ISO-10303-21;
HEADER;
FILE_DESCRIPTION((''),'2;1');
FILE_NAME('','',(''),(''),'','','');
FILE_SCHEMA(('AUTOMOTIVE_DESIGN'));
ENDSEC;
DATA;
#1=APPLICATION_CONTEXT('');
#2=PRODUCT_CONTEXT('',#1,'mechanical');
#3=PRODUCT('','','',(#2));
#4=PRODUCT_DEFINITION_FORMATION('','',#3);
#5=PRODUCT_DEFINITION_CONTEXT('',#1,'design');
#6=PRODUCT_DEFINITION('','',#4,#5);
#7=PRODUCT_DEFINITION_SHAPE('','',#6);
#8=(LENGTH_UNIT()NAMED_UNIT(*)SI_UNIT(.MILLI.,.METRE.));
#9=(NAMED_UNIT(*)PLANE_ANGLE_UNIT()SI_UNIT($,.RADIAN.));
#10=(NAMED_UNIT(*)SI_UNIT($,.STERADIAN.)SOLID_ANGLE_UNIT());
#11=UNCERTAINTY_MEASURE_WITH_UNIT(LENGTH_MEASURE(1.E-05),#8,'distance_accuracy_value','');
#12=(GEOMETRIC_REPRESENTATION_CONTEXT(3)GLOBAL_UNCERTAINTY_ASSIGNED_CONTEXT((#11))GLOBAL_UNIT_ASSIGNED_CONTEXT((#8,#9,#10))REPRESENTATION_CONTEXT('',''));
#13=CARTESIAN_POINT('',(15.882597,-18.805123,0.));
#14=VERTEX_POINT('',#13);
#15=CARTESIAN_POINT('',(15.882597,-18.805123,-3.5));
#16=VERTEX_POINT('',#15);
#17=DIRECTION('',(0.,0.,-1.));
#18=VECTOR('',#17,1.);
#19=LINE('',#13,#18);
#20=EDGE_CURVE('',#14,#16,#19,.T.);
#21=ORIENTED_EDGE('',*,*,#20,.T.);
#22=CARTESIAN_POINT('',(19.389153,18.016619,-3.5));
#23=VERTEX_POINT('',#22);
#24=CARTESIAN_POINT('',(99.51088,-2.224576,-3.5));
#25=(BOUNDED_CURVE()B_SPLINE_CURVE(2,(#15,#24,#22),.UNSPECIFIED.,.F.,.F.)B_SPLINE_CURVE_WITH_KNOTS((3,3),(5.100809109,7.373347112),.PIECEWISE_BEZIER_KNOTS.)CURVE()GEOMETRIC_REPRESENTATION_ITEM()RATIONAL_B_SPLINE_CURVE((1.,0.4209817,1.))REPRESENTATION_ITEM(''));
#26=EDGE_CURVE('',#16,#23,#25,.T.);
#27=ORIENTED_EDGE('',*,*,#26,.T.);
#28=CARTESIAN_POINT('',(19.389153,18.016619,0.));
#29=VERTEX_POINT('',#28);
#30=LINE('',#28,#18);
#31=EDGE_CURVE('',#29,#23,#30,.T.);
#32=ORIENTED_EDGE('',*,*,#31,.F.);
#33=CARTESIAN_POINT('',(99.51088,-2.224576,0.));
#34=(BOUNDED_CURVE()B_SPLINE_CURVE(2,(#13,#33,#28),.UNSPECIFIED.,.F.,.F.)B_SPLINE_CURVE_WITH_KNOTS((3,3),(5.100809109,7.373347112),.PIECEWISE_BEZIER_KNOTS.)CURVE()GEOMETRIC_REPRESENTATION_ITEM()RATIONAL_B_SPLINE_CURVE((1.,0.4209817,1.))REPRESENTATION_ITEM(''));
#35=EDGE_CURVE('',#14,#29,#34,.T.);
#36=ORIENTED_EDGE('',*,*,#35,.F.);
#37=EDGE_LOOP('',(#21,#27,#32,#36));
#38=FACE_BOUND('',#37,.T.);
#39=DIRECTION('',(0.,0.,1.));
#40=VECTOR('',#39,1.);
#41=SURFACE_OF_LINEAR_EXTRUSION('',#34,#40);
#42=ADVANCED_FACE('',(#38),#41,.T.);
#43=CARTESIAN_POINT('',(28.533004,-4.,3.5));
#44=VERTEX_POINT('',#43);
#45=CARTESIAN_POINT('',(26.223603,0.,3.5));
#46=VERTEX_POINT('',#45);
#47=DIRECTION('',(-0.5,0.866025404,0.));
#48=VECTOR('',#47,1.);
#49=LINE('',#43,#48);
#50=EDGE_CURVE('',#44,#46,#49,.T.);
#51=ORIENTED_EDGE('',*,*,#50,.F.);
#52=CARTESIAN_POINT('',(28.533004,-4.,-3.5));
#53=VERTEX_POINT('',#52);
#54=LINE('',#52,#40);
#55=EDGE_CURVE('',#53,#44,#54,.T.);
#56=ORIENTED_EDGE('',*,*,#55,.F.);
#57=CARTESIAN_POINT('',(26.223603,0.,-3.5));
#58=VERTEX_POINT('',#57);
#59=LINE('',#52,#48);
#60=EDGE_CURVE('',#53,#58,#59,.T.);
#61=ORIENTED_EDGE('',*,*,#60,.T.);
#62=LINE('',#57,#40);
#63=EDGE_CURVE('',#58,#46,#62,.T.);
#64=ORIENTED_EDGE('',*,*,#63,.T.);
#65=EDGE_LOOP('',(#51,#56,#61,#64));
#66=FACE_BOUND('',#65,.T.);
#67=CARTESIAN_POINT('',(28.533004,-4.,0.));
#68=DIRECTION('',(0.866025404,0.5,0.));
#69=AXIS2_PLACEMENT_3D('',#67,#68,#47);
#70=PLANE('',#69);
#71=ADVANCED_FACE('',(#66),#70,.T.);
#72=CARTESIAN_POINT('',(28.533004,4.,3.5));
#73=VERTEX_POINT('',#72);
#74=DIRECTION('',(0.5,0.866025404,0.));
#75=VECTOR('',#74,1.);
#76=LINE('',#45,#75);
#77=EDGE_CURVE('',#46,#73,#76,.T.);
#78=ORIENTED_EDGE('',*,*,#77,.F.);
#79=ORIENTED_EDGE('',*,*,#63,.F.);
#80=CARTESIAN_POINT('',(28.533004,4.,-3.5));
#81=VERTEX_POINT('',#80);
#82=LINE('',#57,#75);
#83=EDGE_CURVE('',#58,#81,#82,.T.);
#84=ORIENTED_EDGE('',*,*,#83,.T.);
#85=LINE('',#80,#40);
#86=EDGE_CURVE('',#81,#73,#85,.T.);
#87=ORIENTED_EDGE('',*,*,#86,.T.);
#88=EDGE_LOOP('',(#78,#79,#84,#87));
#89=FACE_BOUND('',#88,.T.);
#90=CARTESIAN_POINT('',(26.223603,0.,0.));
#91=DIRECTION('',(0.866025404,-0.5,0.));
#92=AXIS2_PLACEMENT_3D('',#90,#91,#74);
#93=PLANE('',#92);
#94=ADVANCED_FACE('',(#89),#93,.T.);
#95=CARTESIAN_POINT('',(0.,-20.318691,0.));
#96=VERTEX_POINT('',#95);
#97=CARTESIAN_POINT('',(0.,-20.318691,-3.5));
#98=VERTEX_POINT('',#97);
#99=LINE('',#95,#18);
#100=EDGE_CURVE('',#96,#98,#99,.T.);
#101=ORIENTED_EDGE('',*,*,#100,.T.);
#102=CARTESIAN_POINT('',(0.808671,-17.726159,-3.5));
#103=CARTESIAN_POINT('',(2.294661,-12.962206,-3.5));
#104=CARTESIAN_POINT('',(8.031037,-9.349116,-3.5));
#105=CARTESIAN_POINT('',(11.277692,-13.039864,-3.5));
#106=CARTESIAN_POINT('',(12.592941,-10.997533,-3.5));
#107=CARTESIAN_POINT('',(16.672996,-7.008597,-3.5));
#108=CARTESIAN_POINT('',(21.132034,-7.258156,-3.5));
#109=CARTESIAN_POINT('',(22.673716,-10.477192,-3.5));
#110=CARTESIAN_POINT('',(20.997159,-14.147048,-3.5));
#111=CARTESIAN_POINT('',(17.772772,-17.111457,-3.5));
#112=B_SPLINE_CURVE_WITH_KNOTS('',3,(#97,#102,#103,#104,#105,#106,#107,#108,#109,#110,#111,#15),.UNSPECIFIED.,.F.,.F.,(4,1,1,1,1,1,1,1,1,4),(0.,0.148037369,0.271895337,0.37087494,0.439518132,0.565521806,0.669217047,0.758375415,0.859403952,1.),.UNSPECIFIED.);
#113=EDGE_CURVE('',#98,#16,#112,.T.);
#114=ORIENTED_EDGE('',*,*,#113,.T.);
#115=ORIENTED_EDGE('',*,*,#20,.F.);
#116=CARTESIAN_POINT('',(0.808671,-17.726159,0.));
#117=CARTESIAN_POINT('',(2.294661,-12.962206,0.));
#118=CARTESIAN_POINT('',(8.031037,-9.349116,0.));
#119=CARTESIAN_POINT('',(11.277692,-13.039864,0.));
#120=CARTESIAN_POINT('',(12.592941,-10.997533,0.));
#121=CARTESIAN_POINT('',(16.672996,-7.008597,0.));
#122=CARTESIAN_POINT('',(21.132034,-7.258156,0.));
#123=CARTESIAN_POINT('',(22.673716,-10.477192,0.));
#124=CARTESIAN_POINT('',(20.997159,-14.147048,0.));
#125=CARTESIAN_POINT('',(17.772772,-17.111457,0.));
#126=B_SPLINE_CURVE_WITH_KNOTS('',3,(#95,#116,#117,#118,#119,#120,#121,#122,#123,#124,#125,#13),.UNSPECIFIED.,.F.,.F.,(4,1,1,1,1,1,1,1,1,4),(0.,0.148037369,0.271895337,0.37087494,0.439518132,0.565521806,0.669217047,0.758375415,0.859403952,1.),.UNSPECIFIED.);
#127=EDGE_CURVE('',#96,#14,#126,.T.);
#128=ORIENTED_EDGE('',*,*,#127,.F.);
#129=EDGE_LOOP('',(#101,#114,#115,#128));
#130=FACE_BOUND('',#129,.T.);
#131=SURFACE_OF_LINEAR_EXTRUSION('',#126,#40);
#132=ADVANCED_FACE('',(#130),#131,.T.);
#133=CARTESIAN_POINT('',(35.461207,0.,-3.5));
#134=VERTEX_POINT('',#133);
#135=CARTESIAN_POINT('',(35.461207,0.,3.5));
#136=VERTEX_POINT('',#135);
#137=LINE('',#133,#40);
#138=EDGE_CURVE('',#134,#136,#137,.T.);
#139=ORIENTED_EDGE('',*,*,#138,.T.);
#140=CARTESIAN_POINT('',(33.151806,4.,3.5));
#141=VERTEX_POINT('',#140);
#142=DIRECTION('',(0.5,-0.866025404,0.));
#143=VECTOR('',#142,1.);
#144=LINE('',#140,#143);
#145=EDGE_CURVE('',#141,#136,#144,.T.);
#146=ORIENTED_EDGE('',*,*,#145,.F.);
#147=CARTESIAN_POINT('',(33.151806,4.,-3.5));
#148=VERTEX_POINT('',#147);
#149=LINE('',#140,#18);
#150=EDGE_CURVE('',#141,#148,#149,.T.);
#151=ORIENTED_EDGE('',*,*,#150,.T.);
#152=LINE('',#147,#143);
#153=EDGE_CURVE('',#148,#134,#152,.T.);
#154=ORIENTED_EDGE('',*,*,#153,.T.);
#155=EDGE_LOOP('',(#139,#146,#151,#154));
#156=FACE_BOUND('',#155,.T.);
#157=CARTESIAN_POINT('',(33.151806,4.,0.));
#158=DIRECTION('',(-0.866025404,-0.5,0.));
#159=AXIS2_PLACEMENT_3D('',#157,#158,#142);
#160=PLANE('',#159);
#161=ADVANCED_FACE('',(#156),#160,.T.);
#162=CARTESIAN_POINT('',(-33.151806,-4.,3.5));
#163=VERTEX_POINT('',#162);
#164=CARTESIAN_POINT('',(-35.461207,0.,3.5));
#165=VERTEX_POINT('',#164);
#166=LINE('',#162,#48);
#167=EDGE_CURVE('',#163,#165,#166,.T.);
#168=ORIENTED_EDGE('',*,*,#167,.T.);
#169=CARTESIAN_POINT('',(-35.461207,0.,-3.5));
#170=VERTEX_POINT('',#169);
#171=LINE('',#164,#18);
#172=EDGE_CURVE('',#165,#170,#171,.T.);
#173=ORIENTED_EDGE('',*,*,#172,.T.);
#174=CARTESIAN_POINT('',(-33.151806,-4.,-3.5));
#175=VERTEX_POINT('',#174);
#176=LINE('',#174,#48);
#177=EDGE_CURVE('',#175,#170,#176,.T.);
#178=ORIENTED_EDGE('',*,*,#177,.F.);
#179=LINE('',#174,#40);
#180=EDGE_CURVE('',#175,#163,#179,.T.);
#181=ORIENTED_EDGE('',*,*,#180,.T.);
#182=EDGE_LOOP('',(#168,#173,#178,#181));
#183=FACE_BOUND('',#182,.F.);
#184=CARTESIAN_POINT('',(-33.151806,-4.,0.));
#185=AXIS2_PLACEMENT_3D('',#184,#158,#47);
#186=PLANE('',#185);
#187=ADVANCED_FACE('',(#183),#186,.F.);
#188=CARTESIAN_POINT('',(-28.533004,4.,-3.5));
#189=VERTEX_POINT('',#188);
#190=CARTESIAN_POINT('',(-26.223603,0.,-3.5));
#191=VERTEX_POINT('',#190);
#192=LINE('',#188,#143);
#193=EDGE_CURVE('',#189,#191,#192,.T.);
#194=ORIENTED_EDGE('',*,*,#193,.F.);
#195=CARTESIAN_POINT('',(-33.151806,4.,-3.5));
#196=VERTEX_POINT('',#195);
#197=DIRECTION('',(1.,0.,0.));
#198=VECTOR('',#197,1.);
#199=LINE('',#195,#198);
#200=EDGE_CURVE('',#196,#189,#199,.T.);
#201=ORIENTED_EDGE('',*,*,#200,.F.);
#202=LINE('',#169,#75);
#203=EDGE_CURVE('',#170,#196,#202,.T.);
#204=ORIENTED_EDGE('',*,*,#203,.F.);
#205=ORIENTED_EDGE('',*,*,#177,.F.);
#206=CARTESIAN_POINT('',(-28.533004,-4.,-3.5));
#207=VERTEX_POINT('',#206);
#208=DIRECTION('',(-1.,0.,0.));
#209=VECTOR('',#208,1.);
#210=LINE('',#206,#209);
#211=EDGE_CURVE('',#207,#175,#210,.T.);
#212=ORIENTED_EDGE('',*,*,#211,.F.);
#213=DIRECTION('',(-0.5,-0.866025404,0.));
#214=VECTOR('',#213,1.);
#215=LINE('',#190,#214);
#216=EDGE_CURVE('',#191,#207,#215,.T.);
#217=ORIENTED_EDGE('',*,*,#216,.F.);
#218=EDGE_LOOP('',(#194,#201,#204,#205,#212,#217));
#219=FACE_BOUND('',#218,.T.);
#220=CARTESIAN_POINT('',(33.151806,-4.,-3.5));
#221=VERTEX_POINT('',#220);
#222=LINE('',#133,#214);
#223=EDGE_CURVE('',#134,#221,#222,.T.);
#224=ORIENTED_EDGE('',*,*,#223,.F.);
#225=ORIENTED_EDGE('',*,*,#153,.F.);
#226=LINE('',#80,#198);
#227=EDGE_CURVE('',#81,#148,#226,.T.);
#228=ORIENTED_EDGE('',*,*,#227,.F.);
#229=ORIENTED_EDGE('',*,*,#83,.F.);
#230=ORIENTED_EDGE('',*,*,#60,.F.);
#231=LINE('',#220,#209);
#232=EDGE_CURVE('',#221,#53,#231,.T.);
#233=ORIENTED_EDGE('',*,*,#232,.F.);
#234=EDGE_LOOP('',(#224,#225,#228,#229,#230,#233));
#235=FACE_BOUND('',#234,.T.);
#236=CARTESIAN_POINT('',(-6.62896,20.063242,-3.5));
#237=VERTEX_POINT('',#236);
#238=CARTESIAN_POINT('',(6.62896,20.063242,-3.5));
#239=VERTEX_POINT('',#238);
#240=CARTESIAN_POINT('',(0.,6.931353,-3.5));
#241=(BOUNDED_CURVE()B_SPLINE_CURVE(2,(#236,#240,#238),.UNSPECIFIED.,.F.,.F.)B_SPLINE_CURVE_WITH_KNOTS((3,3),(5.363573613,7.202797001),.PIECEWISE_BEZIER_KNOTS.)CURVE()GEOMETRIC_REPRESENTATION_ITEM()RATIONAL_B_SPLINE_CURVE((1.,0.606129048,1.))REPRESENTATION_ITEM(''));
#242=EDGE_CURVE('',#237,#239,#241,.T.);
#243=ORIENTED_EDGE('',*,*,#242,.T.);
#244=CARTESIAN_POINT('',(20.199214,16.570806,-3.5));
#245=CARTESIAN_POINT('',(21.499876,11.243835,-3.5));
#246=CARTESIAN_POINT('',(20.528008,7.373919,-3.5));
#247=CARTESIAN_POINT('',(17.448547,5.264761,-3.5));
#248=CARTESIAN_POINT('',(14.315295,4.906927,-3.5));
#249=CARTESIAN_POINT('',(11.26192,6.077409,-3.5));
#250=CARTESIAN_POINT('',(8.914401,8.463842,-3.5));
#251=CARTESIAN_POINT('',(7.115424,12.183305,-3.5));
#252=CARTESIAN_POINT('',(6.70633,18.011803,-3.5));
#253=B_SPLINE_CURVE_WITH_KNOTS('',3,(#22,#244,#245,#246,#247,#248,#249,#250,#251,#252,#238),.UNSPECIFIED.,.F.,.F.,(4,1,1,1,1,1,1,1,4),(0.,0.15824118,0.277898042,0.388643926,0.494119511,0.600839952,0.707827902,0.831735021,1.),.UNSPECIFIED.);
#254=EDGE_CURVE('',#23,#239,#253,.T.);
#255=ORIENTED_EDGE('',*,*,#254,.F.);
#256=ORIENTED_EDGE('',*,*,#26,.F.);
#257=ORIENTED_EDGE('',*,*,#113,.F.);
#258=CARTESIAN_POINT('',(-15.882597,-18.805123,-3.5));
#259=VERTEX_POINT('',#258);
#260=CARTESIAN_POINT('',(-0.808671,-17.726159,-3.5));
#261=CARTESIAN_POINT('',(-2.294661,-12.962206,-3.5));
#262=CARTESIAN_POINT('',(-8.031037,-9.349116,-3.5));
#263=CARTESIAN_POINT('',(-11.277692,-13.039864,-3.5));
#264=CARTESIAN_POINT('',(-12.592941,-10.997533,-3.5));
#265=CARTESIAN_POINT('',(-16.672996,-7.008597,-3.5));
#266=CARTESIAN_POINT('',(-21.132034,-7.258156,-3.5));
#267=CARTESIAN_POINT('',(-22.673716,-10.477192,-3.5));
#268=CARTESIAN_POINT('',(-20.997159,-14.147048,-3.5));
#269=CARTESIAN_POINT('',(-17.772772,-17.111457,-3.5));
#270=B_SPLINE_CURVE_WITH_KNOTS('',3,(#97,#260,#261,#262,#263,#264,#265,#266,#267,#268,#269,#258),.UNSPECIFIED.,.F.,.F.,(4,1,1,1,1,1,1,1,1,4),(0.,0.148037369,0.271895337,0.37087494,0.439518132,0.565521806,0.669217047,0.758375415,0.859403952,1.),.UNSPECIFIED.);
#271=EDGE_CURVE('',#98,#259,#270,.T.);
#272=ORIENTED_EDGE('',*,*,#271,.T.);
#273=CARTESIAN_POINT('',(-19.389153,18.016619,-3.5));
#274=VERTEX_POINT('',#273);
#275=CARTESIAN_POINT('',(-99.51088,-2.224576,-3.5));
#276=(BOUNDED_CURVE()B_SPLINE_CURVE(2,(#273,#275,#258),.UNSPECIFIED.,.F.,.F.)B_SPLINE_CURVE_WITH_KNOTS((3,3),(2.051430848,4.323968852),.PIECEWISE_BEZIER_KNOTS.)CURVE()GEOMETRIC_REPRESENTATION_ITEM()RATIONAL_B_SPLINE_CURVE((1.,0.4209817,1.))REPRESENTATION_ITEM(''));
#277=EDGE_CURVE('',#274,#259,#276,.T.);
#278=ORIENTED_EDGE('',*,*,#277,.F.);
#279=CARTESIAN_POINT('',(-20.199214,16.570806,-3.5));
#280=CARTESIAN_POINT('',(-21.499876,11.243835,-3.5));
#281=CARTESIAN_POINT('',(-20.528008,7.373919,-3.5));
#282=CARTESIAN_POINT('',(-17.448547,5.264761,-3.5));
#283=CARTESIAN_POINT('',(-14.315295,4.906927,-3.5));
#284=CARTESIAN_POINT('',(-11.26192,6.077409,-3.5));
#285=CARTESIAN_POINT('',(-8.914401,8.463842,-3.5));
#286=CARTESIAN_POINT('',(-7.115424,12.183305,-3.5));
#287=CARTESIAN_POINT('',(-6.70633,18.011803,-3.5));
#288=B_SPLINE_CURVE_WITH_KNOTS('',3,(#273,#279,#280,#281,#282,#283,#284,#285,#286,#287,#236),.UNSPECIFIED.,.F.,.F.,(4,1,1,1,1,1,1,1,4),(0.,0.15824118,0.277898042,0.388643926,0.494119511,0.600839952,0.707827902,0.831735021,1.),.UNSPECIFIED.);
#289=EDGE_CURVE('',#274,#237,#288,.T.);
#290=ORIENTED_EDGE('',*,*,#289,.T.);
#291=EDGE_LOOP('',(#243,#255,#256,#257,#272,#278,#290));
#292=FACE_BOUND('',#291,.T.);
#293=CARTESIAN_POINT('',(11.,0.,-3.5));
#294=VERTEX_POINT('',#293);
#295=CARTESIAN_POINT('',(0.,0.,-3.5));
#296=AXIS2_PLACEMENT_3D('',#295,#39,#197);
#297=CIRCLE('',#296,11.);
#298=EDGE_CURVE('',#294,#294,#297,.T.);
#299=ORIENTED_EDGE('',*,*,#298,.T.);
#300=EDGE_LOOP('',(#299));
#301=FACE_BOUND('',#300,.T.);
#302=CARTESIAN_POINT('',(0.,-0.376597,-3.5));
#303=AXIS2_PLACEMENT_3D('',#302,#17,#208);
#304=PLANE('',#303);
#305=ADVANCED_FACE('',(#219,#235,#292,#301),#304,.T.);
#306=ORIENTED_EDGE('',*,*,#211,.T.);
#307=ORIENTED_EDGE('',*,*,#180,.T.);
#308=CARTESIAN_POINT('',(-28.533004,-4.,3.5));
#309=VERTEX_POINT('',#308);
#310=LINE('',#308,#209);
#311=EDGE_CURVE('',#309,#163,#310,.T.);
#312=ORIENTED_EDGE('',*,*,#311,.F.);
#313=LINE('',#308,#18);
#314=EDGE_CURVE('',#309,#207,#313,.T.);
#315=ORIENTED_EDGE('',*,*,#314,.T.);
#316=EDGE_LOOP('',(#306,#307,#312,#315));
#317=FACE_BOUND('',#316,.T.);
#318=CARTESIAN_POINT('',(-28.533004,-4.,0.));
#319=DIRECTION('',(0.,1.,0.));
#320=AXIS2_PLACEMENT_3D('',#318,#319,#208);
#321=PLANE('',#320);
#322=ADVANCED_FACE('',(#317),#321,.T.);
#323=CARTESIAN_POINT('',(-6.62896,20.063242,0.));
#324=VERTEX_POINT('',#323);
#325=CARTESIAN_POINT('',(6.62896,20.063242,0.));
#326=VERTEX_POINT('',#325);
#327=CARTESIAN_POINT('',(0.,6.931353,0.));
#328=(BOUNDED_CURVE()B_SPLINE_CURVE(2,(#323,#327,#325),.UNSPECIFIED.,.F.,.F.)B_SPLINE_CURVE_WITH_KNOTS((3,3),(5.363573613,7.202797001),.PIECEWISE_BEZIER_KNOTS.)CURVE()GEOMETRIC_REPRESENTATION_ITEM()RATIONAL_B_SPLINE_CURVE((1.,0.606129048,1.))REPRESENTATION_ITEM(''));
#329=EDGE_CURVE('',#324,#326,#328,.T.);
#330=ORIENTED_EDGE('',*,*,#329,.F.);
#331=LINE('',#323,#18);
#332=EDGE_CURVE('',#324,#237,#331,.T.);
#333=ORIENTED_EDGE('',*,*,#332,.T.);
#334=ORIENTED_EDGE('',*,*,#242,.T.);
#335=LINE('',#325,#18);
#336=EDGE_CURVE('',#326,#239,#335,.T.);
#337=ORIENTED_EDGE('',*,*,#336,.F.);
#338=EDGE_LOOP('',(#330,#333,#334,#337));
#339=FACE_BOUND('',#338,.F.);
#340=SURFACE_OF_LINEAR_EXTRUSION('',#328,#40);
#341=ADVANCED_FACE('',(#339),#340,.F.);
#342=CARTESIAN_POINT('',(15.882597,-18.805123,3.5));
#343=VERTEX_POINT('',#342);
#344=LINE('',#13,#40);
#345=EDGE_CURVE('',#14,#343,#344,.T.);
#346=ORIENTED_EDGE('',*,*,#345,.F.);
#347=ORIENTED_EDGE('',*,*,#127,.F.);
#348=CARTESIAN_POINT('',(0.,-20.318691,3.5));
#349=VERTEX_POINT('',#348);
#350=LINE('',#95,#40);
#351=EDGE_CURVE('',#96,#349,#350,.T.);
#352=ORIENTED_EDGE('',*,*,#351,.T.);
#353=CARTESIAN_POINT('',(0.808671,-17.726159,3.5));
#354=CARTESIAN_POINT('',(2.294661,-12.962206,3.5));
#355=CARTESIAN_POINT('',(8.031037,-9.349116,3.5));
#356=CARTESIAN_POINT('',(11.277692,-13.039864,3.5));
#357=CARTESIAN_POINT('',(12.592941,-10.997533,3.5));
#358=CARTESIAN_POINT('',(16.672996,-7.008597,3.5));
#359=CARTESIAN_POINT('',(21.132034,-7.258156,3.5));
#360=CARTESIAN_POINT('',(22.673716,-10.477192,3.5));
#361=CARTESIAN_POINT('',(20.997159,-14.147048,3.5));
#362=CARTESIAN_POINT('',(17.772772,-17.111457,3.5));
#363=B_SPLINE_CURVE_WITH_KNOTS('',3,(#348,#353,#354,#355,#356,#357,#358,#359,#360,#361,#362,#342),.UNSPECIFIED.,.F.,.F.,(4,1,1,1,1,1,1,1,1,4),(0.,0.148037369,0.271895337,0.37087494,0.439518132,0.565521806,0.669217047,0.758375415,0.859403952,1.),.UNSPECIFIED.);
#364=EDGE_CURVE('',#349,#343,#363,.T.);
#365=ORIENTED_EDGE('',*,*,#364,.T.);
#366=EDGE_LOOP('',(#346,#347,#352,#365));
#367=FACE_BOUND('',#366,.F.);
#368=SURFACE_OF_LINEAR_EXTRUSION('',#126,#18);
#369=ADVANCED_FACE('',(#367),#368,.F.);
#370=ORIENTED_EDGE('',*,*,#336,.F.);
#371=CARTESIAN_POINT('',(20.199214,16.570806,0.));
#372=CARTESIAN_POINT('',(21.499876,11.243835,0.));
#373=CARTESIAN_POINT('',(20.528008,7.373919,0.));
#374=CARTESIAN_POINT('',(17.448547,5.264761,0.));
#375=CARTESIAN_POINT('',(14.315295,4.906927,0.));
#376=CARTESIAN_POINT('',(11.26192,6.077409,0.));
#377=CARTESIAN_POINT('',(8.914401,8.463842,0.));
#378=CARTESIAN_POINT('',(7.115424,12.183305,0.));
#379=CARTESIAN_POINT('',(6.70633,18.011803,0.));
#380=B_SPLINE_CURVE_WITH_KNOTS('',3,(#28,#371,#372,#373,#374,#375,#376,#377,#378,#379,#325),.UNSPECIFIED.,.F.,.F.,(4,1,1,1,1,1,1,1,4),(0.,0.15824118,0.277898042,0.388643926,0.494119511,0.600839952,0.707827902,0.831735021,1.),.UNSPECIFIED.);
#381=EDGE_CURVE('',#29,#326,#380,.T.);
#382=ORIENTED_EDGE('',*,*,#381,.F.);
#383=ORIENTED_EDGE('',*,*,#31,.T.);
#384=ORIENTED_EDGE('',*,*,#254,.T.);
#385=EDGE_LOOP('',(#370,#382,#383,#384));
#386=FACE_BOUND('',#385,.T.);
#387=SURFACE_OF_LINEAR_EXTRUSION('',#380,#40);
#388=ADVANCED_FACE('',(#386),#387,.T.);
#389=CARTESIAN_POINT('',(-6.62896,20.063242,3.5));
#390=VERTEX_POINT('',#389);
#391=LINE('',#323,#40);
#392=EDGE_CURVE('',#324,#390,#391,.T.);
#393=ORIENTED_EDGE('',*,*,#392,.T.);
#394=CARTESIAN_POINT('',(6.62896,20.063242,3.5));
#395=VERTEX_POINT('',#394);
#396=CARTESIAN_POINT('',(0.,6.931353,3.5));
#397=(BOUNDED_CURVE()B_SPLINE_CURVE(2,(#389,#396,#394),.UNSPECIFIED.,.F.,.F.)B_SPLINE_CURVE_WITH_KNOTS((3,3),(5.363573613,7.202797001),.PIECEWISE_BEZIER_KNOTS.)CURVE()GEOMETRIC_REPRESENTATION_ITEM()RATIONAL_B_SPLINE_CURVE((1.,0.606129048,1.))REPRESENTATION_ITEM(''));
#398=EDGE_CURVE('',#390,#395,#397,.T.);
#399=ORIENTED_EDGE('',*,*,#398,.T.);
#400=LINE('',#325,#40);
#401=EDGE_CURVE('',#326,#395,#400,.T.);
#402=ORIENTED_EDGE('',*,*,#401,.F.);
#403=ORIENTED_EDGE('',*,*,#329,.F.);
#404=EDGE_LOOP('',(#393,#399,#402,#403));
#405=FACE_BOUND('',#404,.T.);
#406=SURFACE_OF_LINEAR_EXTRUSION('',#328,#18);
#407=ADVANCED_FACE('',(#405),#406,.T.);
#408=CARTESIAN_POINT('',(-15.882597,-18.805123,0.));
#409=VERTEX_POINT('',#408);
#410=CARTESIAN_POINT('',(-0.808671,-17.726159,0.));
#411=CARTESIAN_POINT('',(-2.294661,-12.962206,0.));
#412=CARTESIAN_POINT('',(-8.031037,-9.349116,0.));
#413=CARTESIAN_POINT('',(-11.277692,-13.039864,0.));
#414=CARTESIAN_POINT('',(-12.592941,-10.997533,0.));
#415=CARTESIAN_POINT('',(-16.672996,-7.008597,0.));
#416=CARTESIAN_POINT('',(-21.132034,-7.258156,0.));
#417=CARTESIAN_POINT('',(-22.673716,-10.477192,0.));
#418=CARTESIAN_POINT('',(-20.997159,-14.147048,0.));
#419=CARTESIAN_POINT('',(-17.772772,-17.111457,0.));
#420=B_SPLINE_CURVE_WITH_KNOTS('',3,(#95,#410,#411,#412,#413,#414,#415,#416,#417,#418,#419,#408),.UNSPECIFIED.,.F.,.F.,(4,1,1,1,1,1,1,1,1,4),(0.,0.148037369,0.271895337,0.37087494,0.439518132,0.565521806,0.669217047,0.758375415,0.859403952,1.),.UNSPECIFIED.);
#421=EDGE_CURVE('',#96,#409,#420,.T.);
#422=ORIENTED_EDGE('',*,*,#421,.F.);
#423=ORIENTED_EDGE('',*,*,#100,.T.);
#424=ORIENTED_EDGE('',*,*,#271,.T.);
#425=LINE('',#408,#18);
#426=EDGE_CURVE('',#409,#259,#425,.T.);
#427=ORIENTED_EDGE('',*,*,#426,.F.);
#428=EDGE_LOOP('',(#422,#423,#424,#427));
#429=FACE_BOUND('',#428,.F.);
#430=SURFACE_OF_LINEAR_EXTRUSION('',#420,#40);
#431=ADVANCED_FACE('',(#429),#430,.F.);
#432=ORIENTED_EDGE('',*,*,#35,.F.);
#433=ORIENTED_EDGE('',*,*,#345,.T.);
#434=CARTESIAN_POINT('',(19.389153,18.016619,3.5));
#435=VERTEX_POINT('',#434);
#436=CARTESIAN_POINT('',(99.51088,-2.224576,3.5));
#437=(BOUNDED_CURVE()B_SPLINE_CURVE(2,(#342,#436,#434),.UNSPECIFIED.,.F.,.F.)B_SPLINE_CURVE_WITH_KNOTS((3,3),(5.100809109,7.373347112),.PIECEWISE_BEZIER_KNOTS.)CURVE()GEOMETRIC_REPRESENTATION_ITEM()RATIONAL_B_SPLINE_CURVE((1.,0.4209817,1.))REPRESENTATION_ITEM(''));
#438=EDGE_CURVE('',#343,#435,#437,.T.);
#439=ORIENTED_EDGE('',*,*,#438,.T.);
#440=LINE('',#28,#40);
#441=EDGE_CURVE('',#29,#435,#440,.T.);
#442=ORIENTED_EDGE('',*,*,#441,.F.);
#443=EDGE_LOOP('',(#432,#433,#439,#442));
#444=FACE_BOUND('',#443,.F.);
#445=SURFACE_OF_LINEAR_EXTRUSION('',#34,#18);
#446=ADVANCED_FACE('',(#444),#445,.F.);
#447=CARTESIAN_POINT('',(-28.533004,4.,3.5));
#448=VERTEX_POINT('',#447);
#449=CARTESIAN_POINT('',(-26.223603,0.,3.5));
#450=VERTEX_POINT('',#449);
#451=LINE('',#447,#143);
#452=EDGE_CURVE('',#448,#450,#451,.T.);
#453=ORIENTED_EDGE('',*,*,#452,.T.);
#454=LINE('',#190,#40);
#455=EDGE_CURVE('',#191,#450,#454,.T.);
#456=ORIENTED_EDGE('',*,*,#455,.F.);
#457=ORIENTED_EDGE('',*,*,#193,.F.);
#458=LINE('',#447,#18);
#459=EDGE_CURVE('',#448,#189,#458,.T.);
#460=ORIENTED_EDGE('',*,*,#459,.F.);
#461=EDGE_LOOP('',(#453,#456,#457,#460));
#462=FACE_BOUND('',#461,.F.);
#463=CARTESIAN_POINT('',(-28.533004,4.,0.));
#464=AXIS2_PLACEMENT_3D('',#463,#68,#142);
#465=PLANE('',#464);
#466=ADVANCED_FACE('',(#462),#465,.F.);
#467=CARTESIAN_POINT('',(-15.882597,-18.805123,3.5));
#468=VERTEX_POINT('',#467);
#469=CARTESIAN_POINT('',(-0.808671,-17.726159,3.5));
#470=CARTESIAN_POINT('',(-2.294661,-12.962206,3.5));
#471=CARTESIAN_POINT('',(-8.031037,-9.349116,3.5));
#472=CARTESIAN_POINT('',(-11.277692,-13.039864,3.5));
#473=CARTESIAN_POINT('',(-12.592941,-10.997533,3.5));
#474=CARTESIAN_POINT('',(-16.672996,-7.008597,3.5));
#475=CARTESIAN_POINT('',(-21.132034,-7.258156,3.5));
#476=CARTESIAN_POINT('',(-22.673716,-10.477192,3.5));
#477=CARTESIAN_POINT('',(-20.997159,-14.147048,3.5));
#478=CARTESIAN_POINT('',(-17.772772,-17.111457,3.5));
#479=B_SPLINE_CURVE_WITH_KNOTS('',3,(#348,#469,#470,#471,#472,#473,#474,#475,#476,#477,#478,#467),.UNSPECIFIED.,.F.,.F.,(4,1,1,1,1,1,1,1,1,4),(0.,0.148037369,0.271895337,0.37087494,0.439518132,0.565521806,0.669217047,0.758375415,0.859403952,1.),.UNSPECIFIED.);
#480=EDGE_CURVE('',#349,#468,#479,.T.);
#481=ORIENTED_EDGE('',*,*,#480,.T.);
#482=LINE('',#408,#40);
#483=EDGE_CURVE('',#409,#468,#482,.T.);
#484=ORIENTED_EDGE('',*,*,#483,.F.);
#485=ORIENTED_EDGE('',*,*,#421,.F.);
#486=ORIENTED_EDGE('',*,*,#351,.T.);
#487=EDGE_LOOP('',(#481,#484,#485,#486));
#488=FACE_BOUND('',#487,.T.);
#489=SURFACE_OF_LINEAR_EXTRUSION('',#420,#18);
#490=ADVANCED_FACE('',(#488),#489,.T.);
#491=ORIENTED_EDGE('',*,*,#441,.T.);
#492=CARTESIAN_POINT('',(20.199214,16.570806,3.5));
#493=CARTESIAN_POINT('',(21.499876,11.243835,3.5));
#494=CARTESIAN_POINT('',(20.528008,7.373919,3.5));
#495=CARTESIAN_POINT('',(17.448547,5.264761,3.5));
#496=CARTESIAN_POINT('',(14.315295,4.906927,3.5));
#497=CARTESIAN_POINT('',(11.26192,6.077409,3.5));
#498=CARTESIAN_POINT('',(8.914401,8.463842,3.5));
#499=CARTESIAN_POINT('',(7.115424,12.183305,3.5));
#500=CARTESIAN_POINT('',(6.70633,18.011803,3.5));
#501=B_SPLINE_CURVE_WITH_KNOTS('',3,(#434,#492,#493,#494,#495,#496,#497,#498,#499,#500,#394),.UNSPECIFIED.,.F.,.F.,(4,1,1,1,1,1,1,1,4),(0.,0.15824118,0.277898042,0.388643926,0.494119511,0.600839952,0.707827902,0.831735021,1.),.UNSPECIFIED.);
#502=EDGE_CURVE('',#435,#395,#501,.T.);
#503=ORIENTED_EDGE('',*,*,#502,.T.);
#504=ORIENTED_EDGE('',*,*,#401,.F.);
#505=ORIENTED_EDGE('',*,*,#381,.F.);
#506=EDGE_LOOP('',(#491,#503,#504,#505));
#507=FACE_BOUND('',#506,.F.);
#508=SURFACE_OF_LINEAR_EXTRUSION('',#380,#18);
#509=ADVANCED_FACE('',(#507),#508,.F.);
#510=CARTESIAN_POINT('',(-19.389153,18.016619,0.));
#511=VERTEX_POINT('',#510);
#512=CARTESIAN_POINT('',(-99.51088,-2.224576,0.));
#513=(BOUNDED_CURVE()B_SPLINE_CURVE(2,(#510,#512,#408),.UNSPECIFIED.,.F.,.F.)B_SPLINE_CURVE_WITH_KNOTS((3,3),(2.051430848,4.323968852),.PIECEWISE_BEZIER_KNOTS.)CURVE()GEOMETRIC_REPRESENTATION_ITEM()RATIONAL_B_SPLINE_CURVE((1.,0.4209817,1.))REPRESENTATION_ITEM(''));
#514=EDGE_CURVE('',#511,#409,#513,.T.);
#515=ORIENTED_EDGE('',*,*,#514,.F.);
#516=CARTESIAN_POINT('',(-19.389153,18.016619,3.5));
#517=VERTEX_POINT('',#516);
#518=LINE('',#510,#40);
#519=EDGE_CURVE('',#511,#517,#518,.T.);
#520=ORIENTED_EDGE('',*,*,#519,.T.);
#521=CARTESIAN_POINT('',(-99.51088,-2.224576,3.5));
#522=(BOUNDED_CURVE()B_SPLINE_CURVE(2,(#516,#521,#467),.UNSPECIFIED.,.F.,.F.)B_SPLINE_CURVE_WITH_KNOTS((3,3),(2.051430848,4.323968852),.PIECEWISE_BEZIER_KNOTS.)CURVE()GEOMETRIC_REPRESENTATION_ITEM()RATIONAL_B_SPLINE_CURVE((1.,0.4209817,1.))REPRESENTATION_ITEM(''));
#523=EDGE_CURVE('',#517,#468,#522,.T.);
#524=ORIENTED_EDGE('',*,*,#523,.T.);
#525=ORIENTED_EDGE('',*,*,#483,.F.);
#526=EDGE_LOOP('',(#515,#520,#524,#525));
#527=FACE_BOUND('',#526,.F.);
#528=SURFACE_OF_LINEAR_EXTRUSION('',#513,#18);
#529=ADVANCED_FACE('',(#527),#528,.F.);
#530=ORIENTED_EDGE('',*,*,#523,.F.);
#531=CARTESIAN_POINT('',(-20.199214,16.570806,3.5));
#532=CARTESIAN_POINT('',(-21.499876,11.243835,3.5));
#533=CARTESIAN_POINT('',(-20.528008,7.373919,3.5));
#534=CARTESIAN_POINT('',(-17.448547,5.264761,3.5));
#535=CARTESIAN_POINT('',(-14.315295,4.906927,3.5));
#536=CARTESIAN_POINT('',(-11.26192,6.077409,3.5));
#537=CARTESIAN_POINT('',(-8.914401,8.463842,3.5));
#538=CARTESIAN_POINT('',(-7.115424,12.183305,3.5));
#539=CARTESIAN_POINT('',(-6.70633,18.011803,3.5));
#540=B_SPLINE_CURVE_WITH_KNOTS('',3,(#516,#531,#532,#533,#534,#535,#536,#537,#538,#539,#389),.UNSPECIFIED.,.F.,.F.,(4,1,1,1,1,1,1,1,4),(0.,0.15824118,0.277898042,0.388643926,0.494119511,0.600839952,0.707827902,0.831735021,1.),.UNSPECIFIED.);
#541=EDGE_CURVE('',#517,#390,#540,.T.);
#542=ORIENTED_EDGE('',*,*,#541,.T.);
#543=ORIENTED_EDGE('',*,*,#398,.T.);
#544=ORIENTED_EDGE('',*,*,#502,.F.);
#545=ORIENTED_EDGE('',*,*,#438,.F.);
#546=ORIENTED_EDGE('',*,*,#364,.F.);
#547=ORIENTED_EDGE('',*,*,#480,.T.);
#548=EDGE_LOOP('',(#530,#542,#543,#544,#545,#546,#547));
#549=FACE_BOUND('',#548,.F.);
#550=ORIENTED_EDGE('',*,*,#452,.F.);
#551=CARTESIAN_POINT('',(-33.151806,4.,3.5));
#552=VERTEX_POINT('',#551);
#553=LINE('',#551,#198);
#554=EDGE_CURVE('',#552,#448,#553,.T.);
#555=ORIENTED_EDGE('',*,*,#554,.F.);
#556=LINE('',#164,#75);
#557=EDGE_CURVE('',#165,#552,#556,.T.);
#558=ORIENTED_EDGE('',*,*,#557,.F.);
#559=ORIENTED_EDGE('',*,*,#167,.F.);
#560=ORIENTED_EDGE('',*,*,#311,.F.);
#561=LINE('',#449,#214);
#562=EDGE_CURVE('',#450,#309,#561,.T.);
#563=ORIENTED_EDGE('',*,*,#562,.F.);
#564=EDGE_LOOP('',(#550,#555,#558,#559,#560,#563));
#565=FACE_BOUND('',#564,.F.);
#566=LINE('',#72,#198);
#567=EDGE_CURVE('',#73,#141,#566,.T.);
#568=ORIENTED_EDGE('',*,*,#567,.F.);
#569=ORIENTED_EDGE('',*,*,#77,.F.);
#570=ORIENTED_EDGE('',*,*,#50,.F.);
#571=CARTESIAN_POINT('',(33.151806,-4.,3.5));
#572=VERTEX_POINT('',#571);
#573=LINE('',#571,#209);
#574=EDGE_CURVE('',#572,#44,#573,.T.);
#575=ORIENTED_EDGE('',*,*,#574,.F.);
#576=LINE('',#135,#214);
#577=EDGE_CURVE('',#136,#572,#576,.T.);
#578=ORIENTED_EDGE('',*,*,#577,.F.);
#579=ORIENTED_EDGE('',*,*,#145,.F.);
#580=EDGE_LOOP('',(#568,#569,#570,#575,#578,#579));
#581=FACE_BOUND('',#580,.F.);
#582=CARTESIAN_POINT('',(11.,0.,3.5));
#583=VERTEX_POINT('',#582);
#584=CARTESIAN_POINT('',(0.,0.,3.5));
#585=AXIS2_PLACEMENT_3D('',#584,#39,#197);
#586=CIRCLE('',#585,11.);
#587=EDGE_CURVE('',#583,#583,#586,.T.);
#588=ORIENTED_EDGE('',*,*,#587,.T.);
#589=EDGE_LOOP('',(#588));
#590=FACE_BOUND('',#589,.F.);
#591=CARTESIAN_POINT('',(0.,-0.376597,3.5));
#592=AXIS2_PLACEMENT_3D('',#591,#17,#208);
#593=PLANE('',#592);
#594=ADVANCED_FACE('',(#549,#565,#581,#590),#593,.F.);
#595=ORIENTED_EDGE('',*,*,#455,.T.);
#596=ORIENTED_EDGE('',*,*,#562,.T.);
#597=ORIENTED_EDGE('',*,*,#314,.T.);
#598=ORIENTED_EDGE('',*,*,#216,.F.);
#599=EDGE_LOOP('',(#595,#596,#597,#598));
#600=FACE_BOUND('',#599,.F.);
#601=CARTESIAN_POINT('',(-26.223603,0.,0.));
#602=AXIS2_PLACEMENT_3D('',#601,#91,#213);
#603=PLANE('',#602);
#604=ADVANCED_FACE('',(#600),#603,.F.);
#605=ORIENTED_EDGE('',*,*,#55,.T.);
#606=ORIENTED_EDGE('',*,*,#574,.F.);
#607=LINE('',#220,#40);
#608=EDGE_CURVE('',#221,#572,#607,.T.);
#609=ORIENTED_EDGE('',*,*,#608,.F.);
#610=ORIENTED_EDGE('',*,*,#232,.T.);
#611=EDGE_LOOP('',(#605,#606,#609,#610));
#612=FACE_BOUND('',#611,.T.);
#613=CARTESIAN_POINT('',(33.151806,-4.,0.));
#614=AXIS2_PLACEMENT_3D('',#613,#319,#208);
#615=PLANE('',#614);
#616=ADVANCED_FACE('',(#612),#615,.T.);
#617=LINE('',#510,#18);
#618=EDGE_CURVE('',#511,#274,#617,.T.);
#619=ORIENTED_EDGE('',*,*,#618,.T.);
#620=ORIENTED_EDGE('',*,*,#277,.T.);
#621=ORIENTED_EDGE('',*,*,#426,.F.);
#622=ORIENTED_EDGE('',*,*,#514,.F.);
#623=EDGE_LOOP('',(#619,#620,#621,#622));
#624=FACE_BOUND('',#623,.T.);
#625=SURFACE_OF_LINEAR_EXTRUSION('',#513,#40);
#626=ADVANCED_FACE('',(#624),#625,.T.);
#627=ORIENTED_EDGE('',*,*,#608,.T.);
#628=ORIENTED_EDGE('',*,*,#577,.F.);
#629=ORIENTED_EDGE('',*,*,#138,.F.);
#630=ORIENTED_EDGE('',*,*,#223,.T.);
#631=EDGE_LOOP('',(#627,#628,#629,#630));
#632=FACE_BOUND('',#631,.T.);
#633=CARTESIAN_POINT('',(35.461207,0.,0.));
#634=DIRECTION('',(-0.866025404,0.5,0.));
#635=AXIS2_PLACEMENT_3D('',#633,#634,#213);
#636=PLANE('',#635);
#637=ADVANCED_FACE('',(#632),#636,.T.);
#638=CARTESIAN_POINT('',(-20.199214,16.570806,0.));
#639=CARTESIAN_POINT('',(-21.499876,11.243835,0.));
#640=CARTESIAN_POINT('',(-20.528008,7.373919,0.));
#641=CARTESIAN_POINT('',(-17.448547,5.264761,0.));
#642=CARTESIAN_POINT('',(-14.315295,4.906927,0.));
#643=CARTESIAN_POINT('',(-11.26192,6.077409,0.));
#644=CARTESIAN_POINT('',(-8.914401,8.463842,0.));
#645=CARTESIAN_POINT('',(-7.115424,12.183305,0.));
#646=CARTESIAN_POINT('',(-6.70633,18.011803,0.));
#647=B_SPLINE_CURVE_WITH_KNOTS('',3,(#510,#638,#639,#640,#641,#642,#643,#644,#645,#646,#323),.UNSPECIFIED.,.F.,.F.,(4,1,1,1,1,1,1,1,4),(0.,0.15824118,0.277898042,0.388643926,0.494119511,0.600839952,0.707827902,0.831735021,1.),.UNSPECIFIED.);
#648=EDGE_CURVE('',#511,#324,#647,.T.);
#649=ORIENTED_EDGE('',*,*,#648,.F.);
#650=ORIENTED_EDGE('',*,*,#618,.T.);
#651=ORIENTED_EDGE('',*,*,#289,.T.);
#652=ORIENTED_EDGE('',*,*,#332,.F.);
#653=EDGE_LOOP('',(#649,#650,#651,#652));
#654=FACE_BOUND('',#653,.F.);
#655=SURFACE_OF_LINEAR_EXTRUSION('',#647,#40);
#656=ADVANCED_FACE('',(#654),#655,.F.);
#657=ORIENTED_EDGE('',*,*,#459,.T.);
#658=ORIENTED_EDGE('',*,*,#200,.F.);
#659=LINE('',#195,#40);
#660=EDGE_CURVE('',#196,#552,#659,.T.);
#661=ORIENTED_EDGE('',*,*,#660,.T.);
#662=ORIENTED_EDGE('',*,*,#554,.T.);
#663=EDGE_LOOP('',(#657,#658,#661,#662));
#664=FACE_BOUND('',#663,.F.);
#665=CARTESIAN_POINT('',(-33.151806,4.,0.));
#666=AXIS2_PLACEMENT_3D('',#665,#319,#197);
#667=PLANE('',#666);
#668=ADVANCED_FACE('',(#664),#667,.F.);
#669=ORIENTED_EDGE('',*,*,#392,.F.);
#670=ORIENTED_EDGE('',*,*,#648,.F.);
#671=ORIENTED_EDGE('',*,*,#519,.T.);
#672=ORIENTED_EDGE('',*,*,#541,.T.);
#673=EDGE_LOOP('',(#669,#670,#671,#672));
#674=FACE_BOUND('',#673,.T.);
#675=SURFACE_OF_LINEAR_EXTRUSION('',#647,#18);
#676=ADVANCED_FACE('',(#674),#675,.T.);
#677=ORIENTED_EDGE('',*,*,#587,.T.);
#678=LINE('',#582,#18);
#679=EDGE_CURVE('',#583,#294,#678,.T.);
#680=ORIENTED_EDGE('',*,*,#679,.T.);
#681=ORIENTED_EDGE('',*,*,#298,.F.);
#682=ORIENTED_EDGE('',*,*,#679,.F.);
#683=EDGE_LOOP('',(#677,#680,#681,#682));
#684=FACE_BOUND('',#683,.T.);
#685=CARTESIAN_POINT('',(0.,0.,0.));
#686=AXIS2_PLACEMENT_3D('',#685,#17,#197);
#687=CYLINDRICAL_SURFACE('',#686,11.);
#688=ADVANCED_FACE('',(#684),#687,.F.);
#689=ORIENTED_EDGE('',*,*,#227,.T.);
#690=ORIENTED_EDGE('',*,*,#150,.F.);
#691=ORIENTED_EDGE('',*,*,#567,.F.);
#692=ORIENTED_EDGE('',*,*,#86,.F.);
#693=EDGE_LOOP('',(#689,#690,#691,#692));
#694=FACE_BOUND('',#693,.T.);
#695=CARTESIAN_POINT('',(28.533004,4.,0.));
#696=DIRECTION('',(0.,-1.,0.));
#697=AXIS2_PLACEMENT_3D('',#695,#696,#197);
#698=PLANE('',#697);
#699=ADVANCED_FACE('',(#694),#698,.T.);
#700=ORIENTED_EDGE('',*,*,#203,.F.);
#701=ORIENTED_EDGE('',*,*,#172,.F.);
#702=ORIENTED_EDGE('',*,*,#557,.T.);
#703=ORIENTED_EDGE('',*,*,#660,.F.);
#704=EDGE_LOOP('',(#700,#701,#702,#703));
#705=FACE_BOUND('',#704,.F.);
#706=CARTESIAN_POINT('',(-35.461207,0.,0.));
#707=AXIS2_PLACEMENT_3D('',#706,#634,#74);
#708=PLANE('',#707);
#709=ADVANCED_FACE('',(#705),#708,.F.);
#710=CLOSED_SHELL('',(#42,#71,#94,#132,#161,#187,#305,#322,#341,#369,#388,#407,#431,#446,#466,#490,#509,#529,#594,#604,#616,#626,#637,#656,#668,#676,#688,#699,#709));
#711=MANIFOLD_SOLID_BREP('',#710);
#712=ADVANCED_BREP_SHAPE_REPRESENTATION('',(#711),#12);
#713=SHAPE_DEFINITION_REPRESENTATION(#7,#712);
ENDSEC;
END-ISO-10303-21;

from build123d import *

# Parameters (mm, degrees)
F0_R     = 11
F1_DEPTH = 3.5


with BuildPart() as f1:
    # F0 (on Top) → F1 (new body, symmetric)
    with BuildSketch(Plane.XY):
        with BuildLine():
            add(Edge.make_bspline(
                [(-19.3891526339, 18.0166188308), (-20.199214405, 16.5708061506), (-21.4998763382, 11.2438352535), (-20.528008139, 7.3739190314), (-17.4485469542, 5.2647605065), (-14.3152950704, 4.9069272778), (-11.2619204263, 6.0774086101), (-8.9144012224, 8.4638422289), (-7.1154239281, 12.1833052596), (-6.7063298587, 18.0118026802), (-6.6289601409, 20.0632424055)],
                knots=[0, 0, 0, 0, 0.1582411799, 0.2778980417, 0.3886439264, 0.4941195115, 0.6008399521, 0.707827902, 0.8317350207, 1, 1, 1, 1], degree=3))
            add(Edge.make_bspline(
                [(-19.3891526339, 18.0166188308), (-99.5108801964, -2.2245764876), (-15.882596568, -18.8051225984)],
                knots=[2.0514308483, 2.0514308483, 2.0514308483, 4.3239688515, 4.3239688515, 4.3239688515], degree=2, weights=[1, 0.4209816997, 1]))
            add(Edge.make_bspline(
                [(0, -20.3186912931), (-0.8086713119, -17.726159093), (-2.2946610487, -12.9622057877), (-8.0310369708, -9.3491157165), (-11.2776924749, -13.0398640411), (-12.5929408029, -10.9975331433), (-16.6729956202, -7.0085968344), (-21.1320337178, -7.2581556414), (-22.673715544, -10.477192432), (-20.9971589281, -14.1470483663), (-17.7727717692, -17.111456871), (-15.882596568, -18.8051225984)],
                knots=[0, 0, 0, 0, 0.1480373694, 0.2718953369, 0.3708749404, 0.4395181315, 0.5655218058, 0.6692170466, 0.7583754145, 0.8594039515, 1, 1, 1, 1], degree=3))
            add(Edge.make_bspline(
                [(0, -20.3186912931), (0.8086713119, -17.726159093), (2.2946610487, -12.9622057877), (8.0310369708, -9.3491157165), (11.2776924749, -13.0398640411), (12.5929408029, -10.9975331433), (16.6729956202, -7.0085968344), (21.1320337178, -7.2581556414), (22.673715544, -10.477192432), (20.9971589281, -14.1470483663), (17.7727717692, -17.111456871), (15.882596568, -18.8051225984)],
                knots=[0, 0, 0, 0, 0.1480373694, 0.2718953369, 0.3708749404, 0.4395181315, 0.5655218058, 0.6692170466, 0.7583754145, 0.8594039515, 1, 1, 1, 1], degree=3))
            add(Edge.make_bspline(
                [(15.882596568, -18.8051225984), (99.5108801964, -2.2245764876), (19.3891526339, 18.0166188308)],
                knots=[5.1008091093, 5.1008091093, 5.1008091093, 7.3733471124, 7.3733471124, 7.3733471124], degree=2, weights=[1, 0.4209816997, 1]))
            add(Edge.make_bspline(
                [(19.3891526339, 18.0166188308), (20.199214405, 16.5708061506), (21.4998763382, 11.2438352535), (20.528008139, 7.3739190314), (17.4485469542, 5.2647605065), (14.3152950704, 4.9069272778), (11.2619204263, 6.0774086101), (8.9144012224, 8.4638422289), (7.1154239281, 12.1833052596), (6.7063298587, 18.0118026802), (6.6289601409, 20.0632424055)],
                knots=[0, 0, 0, 0, 0.1582411799, 0.2778980417, 0.3886439264, 0.4941195115, 0.6008399521, 0.707827902, 0.8317350207, 1, 1, 1, 1], degree=3))
            add(Edge.make_bspline(
                [(-6.6289601409, 20.0632424055), (0, 6.9313530724), (6.6289601409, 20.0632424055)],
                knots=[5.3635736134, 5.3635736134, 5.3635736134, 7.202797001, 7.202797001, 7.202797001], degree=2, weights=[1, 0.606129048, 1]))
        make_face()
        Polygon((-33.1518063923, 4), (-28.5330042388, 4), (-26.223603162, 0), (-28.5330042388, -4), (-33.1518063923, -4), (-35.461207469, 0), align=None, mode=Mode.SUBTRACT)
        Circle(F0_R, mode=Mode.SUBTRACT)
        Polygon((33.1518063923, 4), (35.461207469, 0), (33.1518063923, -4), (28.5330042388, -4), (26.223603162, 0), (28.5330042388, 4), align=None, mode=Mode.SUBTRACT)
    extrude(amount=F1_DEPTH, both=True)


solid = f1.part
